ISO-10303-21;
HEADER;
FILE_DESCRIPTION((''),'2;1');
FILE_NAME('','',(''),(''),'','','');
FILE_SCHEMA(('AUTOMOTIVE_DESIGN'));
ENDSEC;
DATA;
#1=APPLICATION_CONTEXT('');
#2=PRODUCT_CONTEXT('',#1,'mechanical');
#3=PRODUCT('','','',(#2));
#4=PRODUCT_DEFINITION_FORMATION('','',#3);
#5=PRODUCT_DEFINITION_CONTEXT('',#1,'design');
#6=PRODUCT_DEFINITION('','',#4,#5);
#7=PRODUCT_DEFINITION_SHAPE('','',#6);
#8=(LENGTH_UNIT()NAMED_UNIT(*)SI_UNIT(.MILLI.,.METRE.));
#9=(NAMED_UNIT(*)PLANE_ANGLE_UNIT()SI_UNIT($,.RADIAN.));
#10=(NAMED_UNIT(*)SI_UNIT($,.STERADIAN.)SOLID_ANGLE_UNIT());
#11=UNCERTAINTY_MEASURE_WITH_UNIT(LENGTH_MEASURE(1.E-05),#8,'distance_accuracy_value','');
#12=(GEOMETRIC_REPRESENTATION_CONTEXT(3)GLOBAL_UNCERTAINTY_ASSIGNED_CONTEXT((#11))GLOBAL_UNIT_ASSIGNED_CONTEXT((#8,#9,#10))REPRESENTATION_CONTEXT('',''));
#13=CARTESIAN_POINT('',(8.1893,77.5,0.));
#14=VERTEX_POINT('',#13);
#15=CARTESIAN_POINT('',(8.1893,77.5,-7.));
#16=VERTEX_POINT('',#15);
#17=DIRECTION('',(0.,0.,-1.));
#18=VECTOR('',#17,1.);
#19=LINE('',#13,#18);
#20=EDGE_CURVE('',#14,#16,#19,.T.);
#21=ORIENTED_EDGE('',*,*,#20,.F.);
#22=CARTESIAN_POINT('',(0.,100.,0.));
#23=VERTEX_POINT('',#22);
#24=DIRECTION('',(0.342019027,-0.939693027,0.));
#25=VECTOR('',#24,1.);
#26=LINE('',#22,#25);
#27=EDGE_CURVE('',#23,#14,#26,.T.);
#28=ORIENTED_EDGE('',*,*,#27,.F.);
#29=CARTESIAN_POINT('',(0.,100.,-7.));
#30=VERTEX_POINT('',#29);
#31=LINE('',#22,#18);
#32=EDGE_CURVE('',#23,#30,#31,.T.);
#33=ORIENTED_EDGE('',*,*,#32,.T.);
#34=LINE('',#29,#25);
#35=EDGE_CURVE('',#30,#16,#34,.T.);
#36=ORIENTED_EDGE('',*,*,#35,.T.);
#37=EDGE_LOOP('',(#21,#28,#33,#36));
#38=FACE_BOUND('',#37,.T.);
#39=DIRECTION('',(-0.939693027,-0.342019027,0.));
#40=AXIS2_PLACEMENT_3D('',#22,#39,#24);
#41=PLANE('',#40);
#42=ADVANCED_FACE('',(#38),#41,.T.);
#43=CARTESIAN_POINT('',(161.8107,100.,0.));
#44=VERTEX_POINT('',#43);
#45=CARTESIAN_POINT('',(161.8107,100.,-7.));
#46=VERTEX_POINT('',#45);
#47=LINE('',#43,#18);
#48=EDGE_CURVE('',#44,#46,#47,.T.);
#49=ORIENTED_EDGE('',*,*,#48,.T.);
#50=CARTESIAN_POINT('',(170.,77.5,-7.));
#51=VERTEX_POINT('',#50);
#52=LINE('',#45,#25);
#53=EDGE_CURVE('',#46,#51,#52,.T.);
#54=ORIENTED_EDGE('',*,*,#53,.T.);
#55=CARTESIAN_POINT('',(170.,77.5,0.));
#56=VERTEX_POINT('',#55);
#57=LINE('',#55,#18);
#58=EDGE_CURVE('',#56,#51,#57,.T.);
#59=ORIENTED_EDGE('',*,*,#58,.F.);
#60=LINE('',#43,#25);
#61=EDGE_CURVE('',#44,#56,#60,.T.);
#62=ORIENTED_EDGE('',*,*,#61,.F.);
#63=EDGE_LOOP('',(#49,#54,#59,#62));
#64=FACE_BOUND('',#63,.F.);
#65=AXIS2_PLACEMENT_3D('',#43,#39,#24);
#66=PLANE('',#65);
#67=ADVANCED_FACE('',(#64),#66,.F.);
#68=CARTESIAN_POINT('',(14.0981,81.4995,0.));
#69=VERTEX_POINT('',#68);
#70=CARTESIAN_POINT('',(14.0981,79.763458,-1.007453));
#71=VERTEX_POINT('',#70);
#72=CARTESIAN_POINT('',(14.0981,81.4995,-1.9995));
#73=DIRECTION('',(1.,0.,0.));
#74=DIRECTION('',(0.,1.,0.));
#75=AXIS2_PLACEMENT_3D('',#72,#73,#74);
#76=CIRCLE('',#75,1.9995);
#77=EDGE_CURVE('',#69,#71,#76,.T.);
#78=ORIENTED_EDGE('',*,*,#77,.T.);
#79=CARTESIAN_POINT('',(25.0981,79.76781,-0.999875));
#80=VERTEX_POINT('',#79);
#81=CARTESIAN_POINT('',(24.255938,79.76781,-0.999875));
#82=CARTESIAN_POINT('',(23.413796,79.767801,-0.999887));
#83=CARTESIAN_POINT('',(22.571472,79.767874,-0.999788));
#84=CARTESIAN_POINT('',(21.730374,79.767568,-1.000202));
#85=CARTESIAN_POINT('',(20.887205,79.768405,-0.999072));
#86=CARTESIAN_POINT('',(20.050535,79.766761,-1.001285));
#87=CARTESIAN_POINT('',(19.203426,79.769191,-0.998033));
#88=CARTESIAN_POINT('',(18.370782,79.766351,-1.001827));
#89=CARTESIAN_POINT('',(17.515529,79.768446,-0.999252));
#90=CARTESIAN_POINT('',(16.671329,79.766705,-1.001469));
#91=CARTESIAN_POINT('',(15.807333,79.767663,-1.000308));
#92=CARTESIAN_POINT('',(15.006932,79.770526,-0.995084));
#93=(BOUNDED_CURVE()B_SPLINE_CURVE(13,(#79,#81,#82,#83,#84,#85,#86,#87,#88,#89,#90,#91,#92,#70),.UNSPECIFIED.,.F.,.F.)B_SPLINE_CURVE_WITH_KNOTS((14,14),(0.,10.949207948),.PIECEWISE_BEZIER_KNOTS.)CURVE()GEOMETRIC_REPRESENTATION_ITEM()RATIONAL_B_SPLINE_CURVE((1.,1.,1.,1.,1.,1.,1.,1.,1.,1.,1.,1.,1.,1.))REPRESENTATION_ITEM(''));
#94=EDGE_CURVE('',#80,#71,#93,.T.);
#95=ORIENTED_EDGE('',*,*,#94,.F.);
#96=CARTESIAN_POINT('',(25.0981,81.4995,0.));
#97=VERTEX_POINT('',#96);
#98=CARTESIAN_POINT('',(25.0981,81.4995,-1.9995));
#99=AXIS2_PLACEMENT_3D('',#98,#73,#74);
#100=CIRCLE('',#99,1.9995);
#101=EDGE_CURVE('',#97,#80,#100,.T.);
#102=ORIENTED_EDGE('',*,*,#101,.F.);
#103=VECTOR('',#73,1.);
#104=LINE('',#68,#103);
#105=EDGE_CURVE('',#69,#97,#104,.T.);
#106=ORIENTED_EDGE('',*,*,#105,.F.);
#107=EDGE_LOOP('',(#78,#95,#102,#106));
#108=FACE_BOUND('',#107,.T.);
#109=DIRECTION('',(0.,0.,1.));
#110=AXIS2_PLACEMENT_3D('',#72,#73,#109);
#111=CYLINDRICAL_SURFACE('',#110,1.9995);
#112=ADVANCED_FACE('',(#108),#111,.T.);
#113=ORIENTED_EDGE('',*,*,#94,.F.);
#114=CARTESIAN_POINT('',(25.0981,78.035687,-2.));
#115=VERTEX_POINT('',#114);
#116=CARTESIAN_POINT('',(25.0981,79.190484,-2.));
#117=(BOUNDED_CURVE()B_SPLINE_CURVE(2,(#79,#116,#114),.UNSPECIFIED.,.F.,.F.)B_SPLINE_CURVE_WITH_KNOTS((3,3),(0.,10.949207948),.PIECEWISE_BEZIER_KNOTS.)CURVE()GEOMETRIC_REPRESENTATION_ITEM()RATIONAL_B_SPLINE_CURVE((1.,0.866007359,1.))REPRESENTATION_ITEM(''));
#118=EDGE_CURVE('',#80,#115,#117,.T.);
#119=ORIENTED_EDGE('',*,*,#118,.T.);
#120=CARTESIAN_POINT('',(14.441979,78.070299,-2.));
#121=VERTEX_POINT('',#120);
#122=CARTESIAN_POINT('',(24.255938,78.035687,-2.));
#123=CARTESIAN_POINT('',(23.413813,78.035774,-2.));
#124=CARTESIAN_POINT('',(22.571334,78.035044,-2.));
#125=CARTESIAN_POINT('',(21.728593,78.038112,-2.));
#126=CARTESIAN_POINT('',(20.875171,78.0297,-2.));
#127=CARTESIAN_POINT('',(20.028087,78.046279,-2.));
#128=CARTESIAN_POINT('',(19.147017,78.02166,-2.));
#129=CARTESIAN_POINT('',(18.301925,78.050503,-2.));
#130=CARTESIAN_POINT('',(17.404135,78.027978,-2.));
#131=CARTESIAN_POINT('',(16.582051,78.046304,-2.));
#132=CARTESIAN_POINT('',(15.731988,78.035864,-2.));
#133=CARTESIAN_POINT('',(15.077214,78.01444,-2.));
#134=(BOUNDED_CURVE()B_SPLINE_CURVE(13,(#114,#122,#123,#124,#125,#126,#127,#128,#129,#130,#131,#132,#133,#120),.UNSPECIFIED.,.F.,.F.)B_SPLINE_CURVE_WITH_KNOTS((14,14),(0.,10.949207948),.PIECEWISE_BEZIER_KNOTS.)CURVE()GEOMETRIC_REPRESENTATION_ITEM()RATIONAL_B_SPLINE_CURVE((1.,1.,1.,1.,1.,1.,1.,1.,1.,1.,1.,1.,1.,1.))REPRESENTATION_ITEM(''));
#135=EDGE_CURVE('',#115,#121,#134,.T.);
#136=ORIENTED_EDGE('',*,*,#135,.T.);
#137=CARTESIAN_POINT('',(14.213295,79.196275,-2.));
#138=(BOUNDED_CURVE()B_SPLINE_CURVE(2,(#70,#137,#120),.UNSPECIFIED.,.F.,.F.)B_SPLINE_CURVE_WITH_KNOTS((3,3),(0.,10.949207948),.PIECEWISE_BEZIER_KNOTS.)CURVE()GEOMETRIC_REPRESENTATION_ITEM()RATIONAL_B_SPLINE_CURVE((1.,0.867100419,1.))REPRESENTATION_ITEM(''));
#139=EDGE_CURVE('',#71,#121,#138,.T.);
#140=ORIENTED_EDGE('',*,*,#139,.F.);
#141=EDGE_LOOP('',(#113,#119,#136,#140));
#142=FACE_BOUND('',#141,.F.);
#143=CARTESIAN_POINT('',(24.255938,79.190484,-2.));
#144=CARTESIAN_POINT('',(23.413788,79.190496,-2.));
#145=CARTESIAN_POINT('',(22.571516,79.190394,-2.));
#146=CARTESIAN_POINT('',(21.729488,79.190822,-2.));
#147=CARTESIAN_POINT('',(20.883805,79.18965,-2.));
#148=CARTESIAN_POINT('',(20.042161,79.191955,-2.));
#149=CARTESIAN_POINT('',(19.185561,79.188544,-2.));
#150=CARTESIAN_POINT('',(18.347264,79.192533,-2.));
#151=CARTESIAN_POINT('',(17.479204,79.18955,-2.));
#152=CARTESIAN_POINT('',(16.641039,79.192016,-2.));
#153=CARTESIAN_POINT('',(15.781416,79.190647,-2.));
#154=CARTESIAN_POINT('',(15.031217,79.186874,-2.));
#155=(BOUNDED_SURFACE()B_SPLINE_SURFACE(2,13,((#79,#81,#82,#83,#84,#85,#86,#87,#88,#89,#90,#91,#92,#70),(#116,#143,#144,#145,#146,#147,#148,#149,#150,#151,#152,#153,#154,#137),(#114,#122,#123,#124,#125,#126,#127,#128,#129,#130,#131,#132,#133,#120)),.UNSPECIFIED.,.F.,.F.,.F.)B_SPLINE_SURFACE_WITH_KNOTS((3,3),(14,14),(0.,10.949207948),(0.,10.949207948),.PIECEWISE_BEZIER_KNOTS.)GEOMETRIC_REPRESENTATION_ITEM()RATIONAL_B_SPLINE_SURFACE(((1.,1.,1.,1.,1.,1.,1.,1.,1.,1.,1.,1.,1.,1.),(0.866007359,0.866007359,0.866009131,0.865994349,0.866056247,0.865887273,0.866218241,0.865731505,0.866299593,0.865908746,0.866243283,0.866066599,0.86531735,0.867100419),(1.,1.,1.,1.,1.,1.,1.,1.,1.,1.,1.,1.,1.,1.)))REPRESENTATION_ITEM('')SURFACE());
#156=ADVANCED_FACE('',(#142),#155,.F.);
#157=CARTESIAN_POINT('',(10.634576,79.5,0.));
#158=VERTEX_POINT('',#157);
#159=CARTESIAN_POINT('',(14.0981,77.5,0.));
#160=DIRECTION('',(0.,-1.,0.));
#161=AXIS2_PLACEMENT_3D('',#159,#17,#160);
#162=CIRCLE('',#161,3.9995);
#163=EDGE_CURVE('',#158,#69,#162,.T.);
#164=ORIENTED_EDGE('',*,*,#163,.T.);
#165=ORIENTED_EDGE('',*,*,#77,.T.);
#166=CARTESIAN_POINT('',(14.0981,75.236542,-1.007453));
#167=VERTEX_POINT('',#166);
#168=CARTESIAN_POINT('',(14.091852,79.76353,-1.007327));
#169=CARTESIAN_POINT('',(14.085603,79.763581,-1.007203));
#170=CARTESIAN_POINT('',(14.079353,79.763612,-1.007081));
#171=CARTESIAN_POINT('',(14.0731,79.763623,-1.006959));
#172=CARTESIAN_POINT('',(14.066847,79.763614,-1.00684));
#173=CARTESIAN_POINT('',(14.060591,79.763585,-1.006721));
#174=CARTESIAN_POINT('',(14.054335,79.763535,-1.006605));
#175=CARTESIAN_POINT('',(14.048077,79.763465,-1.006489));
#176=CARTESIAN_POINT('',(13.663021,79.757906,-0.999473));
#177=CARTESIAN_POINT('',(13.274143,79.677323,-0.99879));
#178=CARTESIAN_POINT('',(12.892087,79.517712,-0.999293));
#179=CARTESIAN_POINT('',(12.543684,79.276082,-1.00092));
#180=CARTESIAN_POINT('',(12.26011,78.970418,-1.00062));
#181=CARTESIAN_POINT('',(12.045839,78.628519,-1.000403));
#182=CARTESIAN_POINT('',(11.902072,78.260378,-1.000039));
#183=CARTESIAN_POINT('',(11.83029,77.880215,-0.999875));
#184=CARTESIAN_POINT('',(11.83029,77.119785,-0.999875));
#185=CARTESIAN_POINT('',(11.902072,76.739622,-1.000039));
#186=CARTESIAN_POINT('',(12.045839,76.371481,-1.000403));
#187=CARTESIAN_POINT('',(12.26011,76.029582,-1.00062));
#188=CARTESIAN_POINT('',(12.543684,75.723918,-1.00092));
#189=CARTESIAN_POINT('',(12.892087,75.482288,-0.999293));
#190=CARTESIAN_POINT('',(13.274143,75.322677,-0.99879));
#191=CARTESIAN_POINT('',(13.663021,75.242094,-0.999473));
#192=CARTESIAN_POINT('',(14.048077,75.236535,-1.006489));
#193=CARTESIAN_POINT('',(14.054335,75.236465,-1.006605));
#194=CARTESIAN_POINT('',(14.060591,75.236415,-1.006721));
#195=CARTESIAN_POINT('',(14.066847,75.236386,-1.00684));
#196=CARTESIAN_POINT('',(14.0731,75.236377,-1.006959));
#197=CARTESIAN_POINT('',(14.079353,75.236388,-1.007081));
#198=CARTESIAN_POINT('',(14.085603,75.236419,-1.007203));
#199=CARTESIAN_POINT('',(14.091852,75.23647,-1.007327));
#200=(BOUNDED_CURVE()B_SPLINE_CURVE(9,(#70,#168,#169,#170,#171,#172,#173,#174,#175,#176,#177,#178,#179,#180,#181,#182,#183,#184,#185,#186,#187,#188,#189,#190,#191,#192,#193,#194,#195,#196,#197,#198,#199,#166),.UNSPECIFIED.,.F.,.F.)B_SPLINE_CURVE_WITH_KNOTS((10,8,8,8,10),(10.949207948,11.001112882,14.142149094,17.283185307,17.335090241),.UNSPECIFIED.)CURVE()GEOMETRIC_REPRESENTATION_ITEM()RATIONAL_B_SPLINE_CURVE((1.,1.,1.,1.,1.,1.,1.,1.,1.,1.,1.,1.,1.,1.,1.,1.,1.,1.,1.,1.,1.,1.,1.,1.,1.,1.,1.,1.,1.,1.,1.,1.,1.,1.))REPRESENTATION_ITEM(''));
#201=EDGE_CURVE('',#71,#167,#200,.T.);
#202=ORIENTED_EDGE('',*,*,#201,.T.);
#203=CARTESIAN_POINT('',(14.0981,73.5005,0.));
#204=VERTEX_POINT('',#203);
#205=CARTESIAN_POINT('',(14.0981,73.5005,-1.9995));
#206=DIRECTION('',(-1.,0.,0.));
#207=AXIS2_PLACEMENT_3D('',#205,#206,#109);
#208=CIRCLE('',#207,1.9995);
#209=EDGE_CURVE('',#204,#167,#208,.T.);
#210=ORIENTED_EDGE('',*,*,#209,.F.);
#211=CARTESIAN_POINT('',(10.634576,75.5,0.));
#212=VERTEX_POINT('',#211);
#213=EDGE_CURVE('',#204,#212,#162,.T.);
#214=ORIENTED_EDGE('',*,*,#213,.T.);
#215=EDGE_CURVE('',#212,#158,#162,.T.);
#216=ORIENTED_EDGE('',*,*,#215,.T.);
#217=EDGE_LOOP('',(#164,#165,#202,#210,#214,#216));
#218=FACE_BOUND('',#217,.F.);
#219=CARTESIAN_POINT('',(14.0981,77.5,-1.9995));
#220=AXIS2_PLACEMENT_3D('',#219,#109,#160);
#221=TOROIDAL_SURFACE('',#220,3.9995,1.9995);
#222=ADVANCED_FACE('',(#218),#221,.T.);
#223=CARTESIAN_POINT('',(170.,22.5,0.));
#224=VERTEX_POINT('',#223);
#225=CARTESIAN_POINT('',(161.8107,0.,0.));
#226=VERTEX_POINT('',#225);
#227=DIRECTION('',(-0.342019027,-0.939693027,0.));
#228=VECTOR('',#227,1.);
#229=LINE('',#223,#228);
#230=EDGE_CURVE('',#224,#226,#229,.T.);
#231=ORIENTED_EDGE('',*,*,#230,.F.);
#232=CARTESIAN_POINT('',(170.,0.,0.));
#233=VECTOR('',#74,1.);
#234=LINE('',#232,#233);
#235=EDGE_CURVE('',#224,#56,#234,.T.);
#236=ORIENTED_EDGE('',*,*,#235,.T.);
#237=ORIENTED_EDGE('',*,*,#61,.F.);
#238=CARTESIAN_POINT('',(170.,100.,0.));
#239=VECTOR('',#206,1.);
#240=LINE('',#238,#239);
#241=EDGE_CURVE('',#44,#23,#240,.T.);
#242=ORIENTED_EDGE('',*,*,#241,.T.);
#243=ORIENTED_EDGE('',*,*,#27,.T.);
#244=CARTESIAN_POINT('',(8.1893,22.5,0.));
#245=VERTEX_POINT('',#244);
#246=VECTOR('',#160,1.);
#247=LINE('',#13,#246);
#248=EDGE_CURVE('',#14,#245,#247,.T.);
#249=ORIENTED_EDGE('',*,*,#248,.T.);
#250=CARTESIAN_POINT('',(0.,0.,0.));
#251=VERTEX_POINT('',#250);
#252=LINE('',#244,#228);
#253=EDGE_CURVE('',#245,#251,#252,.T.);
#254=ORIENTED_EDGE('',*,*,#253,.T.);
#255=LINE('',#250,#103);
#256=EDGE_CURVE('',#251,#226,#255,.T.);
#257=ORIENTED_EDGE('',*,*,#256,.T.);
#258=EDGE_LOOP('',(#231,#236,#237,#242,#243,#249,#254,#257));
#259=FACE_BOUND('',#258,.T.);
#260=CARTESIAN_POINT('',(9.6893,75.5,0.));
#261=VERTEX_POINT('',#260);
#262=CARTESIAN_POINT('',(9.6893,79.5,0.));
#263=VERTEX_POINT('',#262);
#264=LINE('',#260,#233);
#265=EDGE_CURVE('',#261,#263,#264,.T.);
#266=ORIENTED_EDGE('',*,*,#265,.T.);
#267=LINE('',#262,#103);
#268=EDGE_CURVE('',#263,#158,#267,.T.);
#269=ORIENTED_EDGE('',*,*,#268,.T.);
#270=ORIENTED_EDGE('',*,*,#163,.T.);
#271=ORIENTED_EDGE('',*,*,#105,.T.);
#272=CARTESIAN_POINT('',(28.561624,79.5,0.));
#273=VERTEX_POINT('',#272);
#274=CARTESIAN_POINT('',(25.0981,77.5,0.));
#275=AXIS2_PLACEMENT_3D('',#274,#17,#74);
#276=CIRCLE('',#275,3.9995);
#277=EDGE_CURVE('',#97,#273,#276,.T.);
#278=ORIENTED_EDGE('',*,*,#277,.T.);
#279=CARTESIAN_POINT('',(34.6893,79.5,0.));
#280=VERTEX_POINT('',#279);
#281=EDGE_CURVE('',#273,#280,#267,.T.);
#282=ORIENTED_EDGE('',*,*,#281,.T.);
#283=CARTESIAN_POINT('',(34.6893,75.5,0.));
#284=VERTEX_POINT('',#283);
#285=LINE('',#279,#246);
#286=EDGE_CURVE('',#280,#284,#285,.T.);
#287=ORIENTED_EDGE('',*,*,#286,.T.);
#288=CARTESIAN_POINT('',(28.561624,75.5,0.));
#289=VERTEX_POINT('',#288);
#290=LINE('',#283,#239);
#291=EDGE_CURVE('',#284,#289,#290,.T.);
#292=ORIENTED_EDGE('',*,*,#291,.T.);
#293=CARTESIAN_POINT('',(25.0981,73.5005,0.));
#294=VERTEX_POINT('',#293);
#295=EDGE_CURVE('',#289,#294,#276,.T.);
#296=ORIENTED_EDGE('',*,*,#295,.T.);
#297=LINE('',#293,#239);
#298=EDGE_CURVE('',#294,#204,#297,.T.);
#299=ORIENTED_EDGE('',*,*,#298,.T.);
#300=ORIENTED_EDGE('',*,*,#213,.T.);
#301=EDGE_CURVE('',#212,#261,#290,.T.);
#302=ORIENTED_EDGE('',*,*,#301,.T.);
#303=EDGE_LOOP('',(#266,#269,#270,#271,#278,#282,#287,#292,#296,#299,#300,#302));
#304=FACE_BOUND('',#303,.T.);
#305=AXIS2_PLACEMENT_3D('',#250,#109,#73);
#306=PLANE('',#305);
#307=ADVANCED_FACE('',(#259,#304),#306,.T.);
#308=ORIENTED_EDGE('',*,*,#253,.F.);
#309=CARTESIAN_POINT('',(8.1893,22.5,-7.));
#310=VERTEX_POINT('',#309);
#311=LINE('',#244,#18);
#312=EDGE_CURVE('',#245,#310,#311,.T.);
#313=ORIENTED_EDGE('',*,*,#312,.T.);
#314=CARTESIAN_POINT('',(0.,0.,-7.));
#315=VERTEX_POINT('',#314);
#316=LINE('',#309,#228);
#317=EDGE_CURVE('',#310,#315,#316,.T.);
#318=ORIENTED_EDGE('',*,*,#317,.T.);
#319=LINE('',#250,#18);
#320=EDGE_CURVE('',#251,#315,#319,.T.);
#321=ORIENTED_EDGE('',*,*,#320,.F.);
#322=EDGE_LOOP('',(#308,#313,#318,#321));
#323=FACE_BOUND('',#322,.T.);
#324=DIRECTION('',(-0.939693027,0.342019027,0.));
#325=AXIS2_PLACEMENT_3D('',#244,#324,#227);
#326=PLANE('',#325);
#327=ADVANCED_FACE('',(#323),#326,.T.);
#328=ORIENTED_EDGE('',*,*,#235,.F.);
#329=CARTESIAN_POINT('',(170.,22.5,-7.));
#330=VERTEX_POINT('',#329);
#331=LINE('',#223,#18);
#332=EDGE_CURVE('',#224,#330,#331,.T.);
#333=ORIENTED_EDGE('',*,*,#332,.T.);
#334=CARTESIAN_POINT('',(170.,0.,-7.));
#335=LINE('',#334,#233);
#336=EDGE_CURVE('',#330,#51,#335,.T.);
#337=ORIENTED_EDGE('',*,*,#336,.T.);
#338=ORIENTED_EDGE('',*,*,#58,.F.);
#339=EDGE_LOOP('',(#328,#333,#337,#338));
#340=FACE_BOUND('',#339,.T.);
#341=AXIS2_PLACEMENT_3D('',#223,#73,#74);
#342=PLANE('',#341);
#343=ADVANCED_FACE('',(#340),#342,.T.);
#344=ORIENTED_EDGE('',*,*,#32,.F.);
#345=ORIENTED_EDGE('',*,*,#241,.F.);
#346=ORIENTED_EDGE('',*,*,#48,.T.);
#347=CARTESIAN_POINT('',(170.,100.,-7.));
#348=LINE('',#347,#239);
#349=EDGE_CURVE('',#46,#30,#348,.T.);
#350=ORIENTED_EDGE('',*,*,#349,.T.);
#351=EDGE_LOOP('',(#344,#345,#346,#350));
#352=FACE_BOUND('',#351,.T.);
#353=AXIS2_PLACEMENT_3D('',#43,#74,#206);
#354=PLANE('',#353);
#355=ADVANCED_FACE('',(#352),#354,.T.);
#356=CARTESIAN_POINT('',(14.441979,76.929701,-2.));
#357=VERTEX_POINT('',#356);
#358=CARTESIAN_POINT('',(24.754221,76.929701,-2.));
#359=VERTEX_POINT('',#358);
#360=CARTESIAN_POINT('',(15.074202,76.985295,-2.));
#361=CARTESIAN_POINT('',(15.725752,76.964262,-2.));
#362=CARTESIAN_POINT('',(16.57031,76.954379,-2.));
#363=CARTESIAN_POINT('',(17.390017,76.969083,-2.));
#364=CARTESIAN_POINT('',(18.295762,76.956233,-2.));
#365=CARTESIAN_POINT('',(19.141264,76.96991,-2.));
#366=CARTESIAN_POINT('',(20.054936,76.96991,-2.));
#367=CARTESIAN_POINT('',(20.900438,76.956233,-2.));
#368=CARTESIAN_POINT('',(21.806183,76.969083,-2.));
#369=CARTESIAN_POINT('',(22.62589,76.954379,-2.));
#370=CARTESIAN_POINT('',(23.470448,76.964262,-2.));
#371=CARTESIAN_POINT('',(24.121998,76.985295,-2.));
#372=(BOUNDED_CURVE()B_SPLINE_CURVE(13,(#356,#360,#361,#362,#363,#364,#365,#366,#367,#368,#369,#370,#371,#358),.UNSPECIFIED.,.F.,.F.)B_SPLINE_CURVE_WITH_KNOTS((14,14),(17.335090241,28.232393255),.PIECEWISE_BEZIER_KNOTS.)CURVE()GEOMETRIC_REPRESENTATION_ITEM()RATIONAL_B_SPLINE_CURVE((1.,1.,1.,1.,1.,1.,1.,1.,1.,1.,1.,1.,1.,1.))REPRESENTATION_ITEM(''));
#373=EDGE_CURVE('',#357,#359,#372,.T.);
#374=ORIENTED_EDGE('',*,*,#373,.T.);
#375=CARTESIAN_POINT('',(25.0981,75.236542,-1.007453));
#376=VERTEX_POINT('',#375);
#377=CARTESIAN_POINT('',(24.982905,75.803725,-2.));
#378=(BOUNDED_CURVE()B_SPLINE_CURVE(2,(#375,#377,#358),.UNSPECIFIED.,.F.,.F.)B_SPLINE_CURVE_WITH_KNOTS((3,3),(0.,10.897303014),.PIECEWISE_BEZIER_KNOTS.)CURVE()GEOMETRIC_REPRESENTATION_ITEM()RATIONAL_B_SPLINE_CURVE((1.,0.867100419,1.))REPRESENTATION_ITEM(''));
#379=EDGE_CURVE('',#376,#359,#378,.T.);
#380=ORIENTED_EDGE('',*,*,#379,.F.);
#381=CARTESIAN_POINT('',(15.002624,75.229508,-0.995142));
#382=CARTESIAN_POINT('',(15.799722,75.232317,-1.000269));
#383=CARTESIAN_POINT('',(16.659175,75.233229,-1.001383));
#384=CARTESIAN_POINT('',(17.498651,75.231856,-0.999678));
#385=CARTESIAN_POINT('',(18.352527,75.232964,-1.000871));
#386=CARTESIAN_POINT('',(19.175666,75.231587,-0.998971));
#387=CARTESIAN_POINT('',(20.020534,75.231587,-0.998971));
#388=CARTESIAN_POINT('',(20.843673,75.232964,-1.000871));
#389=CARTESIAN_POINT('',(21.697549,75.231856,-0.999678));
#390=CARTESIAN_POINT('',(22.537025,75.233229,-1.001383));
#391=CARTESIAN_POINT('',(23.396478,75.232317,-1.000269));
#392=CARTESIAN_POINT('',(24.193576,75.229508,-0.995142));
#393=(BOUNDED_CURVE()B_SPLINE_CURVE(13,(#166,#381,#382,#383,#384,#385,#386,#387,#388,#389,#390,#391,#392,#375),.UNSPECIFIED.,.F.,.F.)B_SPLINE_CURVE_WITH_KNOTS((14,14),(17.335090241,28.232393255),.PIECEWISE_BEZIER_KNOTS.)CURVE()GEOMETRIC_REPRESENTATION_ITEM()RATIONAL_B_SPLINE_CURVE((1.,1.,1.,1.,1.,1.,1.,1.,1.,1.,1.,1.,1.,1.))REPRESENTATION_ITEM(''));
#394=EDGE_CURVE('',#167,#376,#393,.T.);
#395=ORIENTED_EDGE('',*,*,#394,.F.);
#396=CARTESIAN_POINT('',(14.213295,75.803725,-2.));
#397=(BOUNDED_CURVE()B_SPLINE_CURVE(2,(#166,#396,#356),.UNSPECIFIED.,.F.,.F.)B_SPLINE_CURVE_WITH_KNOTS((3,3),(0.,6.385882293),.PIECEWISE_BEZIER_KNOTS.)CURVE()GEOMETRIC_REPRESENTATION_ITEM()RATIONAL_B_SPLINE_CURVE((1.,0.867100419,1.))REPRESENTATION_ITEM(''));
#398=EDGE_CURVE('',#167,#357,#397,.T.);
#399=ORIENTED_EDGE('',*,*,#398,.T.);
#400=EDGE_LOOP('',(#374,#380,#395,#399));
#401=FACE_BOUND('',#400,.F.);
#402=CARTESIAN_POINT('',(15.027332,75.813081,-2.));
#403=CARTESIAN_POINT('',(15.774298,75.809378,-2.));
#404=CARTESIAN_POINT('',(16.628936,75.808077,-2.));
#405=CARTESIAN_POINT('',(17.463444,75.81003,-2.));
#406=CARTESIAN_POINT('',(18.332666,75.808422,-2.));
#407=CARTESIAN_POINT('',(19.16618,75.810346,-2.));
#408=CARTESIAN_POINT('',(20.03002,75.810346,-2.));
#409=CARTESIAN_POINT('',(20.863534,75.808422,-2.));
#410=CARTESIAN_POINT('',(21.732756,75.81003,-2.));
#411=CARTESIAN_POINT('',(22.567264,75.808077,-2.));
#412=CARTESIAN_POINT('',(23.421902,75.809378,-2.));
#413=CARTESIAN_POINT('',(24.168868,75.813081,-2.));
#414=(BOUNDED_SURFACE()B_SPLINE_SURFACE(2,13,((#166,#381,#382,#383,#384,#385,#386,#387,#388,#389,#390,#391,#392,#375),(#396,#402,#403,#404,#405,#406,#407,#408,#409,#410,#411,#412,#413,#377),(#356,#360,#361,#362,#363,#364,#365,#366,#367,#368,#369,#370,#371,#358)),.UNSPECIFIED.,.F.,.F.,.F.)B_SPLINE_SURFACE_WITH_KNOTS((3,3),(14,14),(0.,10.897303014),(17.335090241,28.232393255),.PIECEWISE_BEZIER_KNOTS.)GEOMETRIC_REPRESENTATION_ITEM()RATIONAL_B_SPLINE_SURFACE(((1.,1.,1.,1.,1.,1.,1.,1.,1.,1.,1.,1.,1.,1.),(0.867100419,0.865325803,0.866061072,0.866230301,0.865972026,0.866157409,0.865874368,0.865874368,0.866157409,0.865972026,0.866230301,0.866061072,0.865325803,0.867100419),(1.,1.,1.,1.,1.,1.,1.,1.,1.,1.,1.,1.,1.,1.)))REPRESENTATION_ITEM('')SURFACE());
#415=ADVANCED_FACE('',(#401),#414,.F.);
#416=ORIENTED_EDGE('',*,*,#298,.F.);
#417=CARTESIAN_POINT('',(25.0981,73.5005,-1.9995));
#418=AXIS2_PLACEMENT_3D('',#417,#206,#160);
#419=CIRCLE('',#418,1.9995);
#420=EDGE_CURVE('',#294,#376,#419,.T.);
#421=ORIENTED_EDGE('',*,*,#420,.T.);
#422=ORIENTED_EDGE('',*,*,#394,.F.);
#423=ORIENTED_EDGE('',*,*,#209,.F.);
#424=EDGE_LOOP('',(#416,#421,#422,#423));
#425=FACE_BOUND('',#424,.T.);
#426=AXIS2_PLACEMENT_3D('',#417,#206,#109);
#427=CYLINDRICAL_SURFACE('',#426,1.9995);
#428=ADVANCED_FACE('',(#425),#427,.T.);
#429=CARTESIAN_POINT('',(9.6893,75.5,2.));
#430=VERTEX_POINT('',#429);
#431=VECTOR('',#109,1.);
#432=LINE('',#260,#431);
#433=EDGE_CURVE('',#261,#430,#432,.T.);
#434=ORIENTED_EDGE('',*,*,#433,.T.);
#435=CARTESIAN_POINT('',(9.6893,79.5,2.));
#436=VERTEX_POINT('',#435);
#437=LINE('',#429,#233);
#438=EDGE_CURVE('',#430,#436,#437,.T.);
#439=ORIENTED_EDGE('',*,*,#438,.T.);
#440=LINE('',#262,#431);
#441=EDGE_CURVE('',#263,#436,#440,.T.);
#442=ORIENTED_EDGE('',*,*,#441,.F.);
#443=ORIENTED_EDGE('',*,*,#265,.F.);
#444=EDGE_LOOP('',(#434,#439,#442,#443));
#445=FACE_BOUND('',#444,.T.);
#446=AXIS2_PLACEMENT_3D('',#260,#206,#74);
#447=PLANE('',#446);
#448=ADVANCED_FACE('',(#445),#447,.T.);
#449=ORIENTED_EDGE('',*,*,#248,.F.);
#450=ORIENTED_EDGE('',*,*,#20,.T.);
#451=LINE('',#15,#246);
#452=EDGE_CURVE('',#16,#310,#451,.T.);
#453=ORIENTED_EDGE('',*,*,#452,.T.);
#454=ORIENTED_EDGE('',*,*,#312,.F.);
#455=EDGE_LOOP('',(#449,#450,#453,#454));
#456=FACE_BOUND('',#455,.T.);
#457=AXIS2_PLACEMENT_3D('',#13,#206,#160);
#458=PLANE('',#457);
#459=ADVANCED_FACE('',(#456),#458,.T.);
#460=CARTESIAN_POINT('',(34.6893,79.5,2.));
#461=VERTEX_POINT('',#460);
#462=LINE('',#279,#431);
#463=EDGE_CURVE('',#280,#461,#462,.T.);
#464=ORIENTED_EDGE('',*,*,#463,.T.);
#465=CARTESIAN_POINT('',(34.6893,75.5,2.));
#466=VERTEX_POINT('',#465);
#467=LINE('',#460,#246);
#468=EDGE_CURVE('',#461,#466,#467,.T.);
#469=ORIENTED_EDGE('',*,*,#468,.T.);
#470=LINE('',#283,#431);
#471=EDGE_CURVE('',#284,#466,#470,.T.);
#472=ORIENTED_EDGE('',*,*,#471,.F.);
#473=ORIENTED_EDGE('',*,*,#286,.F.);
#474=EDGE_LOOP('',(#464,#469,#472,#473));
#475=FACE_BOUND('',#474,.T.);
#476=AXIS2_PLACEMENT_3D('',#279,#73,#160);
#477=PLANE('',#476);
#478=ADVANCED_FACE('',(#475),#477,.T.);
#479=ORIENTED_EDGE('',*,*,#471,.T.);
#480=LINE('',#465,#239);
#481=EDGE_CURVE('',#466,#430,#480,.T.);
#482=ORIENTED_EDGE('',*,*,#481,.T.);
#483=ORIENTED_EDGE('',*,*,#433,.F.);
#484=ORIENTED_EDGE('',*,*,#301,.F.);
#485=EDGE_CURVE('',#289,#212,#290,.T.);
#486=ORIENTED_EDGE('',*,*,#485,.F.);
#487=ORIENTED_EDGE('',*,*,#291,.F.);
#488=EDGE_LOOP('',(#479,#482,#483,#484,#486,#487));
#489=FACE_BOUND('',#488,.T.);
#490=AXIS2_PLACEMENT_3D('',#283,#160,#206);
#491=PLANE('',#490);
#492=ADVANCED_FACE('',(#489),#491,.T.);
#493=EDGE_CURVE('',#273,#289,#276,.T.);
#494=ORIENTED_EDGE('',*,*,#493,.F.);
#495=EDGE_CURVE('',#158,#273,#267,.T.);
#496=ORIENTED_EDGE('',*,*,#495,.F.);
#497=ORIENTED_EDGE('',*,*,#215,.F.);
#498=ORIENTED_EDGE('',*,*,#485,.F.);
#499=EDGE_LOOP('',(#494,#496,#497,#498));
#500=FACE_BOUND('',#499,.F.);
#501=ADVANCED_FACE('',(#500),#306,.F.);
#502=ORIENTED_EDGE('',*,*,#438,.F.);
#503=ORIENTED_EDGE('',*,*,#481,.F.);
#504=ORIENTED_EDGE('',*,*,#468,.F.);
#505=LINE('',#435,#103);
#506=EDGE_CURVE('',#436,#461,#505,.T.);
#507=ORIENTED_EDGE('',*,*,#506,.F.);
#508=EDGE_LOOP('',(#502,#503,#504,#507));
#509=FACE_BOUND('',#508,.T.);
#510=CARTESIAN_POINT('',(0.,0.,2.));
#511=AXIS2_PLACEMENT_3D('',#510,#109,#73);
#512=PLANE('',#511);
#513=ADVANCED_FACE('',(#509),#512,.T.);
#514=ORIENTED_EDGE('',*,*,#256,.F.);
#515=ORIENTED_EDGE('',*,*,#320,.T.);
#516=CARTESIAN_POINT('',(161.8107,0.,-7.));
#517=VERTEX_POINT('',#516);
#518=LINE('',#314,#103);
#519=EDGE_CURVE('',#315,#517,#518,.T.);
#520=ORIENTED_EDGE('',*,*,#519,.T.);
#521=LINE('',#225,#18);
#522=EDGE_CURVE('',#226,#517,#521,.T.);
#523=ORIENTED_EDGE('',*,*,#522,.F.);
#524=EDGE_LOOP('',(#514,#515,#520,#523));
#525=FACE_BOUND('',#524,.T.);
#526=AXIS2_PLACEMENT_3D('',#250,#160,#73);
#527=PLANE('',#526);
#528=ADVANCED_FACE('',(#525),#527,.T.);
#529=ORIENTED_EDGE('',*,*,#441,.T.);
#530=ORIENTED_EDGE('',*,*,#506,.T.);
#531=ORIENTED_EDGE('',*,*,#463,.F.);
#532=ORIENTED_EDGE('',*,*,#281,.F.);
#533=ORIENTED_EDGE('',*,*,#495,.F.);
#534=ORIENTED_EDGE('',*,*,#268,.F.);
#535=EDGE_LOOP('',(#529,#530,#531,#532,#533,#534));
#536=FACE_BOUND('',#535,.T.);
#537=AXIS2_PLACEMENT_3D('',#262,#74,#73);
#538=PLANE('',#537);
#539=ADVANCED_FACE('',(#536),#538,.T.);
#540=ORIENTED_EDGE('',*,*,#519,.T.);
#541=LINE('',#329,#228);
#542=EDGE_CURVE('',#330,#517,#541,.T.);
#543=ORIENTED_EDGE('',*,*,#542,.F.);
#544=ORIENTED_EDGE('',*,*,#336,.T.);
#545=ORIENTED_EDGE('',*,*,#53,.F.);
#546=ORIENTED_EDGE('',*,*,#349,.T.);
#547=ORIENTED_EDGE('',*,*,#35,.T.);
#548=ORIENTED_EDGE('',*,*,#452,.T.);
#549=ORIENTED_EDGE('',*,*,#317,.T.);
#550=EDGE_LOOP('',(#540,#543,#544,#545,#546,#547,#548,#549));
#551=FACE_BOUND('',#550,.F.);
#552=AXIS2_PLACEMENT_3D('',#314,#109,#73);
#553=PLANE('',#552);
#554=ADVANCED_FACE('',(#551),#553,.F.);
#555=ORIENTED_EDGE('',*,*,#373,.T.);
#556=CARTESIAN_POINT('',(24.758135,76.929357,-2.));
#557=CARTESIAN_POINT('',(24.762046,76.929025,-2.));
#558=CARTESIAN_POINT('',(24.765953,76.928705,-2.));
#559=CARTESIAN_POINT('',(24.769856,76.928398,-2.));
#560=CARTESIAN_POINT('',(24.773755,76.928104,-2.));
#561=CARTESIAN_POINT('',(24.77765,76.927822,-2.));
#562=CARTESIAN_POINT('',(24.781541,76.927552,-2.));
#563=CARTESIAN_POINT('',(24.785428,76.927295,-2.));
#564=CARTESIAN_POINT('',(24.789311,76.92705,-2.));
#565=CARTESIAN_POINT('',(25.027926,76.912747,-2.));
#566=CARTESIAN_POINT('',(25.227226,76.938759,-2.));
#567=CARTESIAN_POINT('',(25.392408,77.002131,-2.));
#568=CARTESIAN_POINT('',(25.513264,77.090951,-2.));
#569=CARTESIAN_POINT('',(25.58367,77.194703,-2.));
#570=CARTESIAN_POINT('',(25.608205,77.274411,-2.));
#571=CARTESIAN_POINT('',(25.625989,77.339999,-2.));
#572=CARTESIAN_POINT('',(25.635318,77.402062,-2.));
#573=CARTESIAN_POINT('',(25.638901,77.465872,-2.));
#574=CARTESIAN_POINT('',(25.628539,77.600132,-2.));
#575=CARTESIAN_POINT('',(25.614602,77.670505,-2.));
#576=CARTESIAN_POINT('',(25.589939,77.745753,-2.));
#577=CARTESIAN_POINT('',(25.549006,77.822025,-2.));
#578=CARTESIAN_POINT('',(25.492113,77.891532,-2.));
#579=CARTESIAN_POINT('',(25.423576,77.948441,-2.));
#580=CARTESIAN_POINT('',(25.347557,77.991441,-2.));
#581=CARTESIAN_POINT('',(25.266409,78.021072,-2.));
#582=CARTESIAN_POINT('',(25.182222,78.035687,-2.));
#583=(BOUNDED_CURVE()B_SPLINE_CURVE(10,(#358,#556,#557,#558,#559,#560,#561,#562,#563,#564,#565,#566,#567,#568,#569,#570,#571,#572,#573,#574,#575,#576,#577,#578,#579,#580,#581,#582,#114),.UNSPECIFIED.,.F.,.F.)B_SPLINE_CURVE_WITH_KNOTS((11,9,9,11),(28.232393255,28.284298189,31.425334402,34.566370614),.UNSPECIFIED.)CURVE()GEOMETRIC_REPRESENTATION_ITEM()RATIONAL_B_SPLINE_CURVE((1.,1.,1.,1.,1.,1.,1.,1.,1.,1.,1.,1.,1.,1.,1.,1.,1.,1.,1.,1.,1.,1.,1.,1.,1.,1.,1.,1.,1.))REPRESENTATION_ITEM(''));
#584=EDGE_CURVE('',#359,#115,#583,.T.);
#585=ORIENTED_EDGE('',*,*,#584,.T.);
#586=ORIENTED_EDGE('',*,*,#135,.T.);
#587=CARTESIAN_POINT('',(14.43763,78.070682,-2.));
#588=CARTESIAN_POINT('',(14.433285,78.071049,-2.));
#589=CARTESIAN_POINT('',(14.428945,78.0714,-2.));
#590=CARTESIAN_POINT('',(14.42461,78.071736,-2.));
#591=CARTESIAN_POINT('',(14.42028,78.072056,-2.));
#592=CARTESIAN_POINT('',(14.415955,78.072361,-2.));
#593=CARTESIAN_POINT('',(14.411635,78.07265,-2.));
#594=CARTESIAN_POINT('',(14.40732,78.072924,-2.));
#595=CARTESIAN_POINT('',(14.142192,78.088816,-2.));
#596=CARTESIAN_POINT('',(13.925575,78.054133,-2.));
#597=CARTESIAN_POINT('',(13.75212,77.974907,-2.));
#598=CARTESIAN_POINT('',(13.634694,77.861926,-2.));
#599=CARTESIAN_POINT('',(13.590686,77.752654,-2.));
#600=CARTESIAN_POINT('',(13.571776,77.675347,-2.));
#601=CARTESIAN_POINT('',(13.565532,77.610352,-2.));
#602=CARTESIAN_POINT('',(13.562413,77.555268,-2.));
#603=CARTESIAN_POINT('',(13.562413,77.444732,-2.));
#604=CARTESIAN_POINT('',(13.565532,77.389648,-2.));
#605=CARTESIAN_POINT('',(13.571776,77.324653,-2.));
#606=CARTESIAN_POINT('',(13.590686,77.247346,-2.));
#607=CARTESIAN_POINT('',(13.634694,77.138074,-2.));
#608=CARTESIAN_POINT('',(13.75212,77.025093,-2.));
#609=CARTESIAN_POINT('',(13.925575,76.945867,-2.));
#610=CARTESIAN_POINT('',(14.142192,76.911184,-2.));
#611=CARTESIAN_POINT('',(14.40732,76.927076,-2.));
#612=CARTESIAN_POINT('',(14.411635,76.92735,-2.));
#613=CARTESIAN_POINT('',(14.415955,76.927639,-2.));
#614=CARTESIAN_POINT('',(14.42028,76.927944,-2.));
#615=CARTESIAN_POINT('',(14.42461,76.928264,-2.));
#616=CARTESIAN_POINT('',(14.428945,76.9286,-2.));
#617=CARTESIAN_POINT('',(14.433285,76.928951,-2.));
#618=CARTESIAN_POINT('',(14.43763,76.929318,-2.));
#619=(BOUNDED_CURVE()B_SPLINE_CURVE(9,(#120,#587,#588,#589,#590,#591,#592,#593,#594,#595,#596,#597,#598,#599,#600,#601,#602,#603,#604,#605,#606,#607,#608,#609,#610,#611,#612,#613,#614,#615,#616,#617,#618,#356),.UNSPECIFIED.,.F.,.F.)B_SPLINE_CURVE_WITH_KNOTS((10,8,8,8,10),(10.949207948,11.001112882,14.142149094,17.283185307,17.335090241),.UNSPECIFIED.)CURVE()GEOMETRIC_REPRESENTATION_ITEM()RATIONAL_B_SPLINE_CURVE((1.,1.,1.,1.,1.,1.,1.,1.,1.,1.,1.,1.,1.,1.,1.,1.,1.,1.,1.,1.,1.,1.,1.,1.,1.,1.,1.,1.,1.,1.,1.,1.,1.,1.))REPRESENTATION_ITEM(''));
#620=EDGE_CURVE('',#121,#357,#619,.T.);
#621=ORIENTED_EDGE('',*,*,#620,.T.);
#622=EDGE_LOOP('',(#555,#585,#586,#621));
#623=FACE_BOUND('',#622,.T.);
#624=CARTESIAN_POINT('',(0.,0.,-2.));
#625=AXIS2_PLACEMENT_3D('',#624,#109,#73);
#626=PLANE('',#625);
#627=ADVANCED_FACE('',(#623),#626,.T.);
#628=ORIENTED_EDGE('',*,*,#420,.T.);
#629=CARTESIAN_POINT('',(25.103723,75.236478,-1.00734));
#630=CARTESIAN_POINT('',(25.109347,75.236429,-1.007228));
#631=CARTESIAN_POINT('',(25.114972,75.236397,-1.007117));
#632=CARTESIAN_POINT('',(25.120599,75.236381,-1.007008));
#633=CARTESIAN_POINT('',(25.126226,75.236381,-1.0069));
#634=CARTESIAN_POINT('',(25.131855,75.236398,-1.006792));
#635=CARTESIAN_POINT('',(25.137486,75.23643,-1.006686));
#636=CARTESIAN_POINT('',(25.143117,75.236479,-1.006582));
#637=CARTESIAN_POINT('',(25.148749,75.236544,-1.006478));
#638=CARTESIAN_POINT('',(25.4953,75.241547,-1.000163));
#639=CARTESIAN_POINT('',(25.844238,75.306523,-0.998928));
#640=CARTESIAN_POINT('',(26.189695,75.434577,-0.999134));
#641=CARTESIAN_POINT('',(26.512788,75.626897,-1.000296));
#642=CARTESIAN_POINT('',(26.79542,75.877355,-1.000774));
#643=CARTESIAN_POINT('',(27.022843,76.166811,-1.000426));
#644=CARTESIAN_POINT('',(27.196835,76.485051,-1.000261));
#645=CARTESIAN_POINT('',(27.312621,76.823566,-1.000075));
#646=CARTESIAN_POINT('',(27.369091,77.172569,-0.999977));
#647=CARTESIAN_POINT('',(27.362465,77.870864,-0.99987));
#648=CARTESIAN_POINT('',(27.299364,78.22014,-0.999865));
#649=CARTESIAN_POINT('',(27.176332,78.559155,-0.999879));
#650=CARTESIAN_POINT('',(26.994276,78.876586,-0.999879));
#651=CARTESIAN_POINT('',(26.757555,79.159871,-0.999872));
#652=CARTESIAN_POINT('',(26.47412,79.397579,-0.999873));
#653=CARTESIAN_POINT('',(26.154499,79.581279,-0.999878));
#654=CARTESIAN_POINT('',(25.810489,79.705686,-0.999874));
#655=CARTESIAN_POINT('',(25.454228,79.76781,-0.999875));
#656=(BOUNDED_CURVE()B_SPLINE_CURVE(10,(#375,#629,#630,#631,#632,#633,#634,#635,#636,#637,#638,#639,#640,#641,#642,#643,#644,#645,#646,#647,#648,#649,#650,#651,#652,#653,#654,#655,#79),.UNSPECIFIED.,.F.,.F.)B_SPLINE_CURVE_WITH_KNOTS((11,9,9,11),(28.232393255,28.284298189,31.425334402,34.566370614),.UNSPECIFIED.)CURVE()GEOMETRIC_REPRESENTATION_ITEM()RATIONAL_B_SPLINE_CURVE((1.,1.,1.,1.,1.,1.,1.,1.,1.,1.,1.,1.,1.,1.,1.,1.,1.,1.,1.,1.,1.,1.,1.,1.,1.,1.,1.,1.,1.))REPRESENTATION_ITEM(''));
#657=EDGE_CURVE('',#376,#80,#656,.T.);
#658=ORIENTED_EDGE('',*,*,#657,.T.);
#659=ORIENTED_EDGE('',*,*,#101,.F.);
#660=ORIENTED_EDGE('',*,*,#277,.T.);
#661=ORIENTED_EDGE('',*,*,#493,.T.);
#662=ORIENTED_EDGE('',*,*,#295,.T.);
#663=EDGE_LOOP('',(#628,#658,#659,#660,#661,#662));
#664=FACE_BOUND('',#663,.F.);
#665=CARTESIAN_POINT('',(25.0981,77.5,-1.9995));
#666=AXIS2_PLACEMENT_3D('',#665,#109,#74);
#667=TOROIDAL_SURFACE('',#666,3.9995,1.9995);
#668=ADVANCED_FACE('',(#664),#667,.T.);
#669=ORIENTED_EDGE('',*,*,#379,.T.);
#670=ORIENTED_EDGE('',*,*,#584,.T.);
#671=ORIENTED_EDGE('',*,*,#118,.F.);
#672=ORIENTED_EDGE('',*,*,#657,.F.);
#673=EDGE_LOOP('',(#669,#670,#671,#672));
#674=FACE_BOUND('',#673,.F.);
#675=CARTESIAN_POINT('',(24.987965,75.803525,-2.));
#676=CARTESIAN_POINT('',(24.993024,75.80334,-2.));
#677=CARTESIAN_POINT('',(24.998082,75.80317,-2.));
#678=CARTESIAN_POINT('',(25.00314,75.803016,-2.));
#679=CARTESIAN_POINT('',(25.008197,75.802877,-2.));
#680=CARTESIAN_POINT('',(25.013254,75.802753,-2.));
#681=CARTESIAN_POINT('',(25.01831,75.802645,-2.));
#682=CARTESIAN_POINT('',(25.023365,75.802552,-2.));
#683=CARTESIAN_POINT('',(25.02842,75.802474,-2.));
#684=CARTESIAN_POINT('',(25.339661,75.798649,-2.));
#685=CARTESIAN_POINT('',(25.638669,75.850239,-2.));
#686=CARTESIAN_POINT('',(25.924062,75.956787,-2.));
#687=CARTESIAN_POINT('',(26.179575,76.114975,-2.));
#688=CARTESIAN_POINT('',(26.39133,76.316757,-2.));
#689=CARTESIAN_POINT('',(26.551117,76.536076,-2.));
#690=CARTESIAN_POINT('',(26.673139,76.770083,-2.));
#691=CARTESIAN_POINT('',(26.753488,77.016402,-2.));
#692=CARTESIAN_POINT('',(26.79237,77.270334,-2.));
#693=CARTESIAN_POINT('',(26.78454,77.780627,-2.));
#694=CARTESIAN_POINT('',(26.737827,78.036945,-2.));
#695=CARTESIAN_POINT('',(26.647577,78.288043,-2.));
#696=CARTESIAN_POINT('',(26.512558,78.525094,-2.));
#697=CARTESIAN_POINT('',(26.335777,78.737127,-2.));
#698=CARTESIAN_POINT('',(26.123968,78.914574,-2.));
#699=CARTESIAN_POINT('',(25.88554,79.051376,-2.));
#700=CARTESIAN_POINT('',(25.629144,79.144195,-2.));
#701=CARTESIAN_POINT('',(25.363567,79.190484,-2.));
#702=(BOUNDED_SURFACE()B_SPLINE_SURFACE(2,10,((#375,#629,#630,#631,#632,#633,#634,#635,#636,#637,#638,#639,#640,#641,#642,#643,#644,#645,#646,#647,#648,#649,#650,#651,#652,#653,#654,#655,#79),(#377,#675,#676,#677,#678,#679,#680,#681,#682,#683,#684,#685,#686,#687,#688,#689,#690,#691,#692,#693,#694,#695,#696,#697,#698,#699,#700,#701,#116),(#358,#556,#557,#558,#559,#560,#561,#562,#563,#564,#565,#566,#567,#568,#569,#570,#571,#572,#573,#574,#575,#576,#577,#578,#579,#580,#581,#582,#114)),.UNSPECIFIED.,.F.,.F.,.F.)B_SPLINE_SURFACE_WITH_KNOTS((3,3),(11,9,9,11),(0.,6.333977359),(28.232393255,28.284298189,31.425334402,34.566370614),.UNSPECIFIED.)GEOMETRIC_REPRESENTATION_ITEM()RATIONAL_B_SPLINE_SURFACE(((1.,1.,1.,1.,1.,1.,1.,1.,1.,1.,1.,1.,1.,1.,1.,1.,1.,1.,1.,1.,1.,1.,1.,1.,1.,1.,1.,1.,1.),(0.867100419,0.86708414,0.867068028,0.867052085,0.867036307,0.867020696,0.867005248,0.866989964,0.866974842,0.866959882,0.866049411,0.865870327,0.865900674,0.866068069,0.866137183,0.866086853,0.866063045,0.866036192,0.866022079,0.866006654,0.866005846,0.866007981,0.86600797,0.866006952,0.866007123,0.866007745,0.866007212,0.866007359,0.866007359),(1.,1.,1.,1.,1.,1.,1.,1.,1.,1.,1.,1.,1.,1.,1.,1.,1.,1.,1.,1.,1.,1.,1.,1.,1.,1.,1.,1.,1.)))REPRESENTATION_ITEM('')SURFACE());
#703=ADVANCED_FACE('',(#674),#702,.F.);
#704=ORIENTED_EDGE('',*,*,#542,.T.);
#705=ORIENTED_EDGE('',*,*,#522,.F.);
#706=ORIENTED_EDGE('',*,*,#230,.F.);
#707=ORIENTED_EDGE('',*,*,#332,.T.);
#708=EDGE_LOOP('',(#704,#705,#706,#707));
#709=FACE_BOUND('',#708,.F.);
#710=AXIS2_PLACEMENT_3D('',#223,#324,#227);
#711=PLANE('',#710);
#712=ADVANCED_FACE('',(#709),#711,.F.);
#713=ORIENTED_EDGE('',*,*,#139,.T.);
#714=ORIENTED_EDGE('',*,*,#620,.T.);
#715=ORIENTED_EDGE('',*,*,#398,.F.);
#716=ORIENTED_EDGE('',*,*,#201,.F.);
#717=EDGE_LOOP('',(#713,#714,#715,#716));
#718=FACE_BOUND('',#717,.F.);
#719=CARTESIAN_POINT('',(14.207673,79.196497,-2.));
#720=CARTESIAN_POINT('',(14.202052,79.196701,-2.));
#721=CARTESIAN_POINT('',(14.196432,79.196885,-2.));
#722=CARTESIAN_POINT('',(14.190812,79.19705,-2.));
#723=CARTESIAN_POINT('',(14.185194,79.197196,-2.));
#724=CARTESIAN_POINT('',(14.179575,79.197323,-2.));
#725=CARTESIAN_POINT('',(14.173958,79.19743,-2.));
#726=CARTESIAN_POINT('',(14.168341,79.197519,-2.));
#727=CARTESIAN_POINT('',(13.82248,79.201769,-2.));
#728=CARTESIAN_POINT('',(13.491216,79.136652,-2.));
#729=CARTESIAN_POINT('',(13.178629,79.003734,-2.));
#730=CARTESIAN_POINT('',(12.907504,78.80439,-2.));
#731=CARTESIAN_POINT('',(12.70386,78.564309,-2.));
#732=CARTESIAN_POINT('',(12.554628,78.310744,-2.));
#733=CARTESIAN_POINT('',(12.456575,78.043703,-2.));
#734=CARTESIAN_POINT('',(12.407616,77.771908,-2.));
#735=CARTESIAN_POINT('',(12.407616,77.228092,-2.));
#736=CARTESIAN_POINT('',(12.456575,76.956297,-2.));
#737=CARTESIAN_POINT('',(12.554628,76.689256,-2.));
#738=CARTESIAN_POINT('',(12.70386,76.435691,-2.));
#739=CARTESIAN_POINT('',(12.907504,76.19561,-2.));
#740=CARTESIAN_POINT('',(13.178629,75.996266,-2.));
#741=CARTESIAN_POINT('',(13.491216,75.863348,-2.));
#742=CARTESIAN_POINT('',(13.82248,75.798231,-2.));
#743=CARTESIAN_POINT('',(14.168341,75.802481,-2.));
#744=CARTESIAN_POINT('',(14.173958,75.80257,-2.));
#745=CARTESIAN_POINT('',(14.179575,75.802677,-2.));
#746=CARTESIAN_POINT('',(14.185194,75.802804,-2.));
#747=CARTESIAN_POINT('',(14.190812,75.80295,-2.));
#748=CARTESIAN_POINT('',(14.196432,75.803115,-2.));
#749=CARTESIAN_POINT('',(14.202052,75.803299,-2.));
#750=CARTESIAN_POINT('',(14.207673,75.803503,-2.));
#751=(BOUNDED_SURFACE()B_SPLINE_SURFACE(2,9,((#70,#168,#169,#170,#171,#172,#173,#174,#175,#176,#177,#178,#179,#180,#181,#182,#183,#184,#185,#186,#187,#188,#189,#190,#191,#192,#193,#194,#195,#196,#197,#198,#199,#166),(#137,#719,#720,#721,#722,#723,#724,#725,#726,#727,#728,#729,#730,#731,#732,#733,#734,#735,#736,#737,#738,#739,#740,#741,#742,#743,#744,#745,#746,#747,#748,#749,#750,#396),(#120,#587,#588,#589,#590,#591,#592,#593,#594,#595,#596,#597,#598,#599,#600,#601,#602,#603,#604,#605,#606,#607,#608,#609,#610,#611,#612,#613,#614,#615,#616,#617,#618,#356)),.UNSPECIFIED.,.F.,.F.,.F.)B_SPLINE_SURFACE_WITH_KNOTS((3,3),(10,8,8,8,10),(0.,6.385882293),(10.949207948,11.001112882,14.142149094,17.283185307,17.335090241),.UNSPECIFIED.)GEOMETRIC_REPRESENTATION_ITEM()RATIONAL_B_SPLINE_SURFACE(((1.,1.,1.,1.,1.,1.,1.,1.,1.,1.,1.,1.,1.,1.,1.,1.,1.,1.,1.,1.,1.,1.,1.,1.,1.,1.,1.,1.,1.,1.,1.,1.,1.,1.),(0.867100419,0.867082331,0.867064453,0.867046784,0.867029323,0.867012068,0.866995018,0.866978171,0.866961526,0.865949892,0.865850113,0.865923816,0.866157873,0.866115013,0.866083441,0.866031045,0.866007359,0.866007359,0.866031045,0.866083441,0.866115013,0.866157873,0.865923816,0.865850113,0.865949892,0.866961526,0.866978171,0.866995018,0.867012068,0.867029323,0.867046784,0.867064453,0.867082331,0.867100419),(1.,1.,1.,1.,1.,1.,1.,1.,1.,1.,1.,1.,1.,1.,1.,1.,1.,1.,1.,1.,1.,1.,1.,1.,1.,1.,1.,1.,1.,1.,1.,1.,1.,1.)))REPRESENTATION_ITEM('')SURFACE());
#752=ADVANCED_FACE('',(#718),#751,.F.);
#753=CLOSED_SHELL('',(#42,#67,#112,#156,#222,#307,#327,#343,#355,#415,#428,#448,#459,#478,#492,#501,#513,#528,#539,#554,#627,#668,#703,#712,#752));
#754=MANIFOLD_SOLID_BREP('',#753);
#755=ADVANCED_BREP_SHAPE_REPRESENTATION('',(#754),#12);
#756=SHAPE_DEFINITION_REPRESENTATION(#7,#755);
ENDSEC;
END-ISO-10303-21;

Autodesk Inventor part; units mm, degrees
ref_plane "YZ Plane" through (0, 0, 0) normal (1, 0, 0) x (0, 1, 0)
ref_plane "XZ Plane" through (0, 0, 0) normal (0, 1, 0) x (-1, 0, 0)
ref_plane "XY Plane" through (0, 0, 0) normal (0, 0, 1) x (1, 0, 0)
sketch "Эскиз1" plane through (0, 0, 0) normal (0, 0, 1) x (1, 0, 0)
  line L0 (0, 0) -> (170, 0)
  line L1 (170, 0) -> (170, 100)
  line L2 (170, 100) -> (0, 100)
  line L3 (0, 100) -> (0, 0) construction
  line L4 (0, 100) -> (8.1893, 77.5)
  line L5 (8.1893, 77.5) -> (8.1893, 22.5)
  line L6 (8.1893, 22.5) -> (0, 0)
  line L7 (161.8107, 100) -> (170, 77.5)
  line L8 (170, 22.5) -> (161.8107, 0)
  dimension "d0" = 170
  dimension "d1" = 100
  dimension "d2" = 20
  dimension "d3" = 55
  dimension "d4" = 20
  dimension "d6" = 55
  dimension "d7" = 20
extrude "Выдавливание1" add sketch "Эскиз1" against normal blind 7 contours L6 L5 L4 L2 L7 L1 L8 L0
sketch "Эскиз2" plane through (0, 0, 0) normal (0, 0, 1) x (1, 0, 0)
  line L0 (14.0981, 75.5) -> (25.0981, 75.5)
  line L1 (27.0981, 77.5) -> (27.0981, 77.5)
  line L2 (25.0981, 79.5) -> (14.0981, 79.5)
  line L3 (12.0981, 77.5) -> (12.0981, 77.5)
  line L4 (12.0981, 75.5) -> (27.0981, 79.5) construction
  line L5 (27.0981, 75.5) -> (12.0981, 79.5) construction
  arc A0 (14.0981, 79.5) -> (12.0981, 77.5) centre (14.0981, 77.5) ccw
  arc A1 (12.0981, 77.5) -> (14.0981, 75.5) centre (14.0981, 77.5) ccw
  arc A2 (25.0981, 75.5) -> (27.0981, 77.5) centre (25.0981, 77.5) ccw
  arc A3 (27.0981, 77.5) -> (25.0981, 79.5) centre (25.0981, 77.5) ccw
  point P0 (0, 0)
  point P1 (19.5981, 77.5)
  dimension "d10" = 15
  dimension "d11" = 4
  dimension "d12" = 2
extrude "Выдавливание2" cut sketch "Эскиз2" against normal blind 2
fillet "Сопряжение1" radius 2 4 edges at (27.0981, 77.5, 0) (19.5981, 75.5, 0) (12.0981, 77.5, 0) (19.5981, 79.5, 0)
fillet "Сопряжение2" radius 2 8 edges at (19.5981, 79.5, -1.9995) (19.5981, 79.5, -2) (27.0981, 77.5, -1.9995) (27.0981, 77.5, -2) (19.5981, 75.5, -1.9995) (19.5981, 75.5, -2) (12.0981, 77.5, -1.9995) (12.0981, 77.5, -2)
sketch "Эскиз3" plane through (0, 0, 0) normal (0, 0, 1) x (1, 0, 0)
  line L0 (9.6893, 79.5) -> (34.6893, 79.5)
  line L1 (34.6893, 79.5) -> (34.6893, 75.5)
  line L2 (34.6893, 75.5) -> (9.6893, 75.5)
  line L3 (9.6893, 75.5) -> (9.6893, 79.5)
  line L4 (14.0981, 73.5) -> (25.0981, 73.5) projected
  line L5 (8.1893, 77.5) -> (8.1893, 22.5) projected
  point P0 (0, 0)
  dimension "d17" = 4
  dimension "d18" = 25
  dimension "d19" = 2
  dimension "d20" = 1.5
extrude "Выдавливание3" add sketch "Эскиз3" along normal blind 2
properties part number "ДИ 00.00.03"
